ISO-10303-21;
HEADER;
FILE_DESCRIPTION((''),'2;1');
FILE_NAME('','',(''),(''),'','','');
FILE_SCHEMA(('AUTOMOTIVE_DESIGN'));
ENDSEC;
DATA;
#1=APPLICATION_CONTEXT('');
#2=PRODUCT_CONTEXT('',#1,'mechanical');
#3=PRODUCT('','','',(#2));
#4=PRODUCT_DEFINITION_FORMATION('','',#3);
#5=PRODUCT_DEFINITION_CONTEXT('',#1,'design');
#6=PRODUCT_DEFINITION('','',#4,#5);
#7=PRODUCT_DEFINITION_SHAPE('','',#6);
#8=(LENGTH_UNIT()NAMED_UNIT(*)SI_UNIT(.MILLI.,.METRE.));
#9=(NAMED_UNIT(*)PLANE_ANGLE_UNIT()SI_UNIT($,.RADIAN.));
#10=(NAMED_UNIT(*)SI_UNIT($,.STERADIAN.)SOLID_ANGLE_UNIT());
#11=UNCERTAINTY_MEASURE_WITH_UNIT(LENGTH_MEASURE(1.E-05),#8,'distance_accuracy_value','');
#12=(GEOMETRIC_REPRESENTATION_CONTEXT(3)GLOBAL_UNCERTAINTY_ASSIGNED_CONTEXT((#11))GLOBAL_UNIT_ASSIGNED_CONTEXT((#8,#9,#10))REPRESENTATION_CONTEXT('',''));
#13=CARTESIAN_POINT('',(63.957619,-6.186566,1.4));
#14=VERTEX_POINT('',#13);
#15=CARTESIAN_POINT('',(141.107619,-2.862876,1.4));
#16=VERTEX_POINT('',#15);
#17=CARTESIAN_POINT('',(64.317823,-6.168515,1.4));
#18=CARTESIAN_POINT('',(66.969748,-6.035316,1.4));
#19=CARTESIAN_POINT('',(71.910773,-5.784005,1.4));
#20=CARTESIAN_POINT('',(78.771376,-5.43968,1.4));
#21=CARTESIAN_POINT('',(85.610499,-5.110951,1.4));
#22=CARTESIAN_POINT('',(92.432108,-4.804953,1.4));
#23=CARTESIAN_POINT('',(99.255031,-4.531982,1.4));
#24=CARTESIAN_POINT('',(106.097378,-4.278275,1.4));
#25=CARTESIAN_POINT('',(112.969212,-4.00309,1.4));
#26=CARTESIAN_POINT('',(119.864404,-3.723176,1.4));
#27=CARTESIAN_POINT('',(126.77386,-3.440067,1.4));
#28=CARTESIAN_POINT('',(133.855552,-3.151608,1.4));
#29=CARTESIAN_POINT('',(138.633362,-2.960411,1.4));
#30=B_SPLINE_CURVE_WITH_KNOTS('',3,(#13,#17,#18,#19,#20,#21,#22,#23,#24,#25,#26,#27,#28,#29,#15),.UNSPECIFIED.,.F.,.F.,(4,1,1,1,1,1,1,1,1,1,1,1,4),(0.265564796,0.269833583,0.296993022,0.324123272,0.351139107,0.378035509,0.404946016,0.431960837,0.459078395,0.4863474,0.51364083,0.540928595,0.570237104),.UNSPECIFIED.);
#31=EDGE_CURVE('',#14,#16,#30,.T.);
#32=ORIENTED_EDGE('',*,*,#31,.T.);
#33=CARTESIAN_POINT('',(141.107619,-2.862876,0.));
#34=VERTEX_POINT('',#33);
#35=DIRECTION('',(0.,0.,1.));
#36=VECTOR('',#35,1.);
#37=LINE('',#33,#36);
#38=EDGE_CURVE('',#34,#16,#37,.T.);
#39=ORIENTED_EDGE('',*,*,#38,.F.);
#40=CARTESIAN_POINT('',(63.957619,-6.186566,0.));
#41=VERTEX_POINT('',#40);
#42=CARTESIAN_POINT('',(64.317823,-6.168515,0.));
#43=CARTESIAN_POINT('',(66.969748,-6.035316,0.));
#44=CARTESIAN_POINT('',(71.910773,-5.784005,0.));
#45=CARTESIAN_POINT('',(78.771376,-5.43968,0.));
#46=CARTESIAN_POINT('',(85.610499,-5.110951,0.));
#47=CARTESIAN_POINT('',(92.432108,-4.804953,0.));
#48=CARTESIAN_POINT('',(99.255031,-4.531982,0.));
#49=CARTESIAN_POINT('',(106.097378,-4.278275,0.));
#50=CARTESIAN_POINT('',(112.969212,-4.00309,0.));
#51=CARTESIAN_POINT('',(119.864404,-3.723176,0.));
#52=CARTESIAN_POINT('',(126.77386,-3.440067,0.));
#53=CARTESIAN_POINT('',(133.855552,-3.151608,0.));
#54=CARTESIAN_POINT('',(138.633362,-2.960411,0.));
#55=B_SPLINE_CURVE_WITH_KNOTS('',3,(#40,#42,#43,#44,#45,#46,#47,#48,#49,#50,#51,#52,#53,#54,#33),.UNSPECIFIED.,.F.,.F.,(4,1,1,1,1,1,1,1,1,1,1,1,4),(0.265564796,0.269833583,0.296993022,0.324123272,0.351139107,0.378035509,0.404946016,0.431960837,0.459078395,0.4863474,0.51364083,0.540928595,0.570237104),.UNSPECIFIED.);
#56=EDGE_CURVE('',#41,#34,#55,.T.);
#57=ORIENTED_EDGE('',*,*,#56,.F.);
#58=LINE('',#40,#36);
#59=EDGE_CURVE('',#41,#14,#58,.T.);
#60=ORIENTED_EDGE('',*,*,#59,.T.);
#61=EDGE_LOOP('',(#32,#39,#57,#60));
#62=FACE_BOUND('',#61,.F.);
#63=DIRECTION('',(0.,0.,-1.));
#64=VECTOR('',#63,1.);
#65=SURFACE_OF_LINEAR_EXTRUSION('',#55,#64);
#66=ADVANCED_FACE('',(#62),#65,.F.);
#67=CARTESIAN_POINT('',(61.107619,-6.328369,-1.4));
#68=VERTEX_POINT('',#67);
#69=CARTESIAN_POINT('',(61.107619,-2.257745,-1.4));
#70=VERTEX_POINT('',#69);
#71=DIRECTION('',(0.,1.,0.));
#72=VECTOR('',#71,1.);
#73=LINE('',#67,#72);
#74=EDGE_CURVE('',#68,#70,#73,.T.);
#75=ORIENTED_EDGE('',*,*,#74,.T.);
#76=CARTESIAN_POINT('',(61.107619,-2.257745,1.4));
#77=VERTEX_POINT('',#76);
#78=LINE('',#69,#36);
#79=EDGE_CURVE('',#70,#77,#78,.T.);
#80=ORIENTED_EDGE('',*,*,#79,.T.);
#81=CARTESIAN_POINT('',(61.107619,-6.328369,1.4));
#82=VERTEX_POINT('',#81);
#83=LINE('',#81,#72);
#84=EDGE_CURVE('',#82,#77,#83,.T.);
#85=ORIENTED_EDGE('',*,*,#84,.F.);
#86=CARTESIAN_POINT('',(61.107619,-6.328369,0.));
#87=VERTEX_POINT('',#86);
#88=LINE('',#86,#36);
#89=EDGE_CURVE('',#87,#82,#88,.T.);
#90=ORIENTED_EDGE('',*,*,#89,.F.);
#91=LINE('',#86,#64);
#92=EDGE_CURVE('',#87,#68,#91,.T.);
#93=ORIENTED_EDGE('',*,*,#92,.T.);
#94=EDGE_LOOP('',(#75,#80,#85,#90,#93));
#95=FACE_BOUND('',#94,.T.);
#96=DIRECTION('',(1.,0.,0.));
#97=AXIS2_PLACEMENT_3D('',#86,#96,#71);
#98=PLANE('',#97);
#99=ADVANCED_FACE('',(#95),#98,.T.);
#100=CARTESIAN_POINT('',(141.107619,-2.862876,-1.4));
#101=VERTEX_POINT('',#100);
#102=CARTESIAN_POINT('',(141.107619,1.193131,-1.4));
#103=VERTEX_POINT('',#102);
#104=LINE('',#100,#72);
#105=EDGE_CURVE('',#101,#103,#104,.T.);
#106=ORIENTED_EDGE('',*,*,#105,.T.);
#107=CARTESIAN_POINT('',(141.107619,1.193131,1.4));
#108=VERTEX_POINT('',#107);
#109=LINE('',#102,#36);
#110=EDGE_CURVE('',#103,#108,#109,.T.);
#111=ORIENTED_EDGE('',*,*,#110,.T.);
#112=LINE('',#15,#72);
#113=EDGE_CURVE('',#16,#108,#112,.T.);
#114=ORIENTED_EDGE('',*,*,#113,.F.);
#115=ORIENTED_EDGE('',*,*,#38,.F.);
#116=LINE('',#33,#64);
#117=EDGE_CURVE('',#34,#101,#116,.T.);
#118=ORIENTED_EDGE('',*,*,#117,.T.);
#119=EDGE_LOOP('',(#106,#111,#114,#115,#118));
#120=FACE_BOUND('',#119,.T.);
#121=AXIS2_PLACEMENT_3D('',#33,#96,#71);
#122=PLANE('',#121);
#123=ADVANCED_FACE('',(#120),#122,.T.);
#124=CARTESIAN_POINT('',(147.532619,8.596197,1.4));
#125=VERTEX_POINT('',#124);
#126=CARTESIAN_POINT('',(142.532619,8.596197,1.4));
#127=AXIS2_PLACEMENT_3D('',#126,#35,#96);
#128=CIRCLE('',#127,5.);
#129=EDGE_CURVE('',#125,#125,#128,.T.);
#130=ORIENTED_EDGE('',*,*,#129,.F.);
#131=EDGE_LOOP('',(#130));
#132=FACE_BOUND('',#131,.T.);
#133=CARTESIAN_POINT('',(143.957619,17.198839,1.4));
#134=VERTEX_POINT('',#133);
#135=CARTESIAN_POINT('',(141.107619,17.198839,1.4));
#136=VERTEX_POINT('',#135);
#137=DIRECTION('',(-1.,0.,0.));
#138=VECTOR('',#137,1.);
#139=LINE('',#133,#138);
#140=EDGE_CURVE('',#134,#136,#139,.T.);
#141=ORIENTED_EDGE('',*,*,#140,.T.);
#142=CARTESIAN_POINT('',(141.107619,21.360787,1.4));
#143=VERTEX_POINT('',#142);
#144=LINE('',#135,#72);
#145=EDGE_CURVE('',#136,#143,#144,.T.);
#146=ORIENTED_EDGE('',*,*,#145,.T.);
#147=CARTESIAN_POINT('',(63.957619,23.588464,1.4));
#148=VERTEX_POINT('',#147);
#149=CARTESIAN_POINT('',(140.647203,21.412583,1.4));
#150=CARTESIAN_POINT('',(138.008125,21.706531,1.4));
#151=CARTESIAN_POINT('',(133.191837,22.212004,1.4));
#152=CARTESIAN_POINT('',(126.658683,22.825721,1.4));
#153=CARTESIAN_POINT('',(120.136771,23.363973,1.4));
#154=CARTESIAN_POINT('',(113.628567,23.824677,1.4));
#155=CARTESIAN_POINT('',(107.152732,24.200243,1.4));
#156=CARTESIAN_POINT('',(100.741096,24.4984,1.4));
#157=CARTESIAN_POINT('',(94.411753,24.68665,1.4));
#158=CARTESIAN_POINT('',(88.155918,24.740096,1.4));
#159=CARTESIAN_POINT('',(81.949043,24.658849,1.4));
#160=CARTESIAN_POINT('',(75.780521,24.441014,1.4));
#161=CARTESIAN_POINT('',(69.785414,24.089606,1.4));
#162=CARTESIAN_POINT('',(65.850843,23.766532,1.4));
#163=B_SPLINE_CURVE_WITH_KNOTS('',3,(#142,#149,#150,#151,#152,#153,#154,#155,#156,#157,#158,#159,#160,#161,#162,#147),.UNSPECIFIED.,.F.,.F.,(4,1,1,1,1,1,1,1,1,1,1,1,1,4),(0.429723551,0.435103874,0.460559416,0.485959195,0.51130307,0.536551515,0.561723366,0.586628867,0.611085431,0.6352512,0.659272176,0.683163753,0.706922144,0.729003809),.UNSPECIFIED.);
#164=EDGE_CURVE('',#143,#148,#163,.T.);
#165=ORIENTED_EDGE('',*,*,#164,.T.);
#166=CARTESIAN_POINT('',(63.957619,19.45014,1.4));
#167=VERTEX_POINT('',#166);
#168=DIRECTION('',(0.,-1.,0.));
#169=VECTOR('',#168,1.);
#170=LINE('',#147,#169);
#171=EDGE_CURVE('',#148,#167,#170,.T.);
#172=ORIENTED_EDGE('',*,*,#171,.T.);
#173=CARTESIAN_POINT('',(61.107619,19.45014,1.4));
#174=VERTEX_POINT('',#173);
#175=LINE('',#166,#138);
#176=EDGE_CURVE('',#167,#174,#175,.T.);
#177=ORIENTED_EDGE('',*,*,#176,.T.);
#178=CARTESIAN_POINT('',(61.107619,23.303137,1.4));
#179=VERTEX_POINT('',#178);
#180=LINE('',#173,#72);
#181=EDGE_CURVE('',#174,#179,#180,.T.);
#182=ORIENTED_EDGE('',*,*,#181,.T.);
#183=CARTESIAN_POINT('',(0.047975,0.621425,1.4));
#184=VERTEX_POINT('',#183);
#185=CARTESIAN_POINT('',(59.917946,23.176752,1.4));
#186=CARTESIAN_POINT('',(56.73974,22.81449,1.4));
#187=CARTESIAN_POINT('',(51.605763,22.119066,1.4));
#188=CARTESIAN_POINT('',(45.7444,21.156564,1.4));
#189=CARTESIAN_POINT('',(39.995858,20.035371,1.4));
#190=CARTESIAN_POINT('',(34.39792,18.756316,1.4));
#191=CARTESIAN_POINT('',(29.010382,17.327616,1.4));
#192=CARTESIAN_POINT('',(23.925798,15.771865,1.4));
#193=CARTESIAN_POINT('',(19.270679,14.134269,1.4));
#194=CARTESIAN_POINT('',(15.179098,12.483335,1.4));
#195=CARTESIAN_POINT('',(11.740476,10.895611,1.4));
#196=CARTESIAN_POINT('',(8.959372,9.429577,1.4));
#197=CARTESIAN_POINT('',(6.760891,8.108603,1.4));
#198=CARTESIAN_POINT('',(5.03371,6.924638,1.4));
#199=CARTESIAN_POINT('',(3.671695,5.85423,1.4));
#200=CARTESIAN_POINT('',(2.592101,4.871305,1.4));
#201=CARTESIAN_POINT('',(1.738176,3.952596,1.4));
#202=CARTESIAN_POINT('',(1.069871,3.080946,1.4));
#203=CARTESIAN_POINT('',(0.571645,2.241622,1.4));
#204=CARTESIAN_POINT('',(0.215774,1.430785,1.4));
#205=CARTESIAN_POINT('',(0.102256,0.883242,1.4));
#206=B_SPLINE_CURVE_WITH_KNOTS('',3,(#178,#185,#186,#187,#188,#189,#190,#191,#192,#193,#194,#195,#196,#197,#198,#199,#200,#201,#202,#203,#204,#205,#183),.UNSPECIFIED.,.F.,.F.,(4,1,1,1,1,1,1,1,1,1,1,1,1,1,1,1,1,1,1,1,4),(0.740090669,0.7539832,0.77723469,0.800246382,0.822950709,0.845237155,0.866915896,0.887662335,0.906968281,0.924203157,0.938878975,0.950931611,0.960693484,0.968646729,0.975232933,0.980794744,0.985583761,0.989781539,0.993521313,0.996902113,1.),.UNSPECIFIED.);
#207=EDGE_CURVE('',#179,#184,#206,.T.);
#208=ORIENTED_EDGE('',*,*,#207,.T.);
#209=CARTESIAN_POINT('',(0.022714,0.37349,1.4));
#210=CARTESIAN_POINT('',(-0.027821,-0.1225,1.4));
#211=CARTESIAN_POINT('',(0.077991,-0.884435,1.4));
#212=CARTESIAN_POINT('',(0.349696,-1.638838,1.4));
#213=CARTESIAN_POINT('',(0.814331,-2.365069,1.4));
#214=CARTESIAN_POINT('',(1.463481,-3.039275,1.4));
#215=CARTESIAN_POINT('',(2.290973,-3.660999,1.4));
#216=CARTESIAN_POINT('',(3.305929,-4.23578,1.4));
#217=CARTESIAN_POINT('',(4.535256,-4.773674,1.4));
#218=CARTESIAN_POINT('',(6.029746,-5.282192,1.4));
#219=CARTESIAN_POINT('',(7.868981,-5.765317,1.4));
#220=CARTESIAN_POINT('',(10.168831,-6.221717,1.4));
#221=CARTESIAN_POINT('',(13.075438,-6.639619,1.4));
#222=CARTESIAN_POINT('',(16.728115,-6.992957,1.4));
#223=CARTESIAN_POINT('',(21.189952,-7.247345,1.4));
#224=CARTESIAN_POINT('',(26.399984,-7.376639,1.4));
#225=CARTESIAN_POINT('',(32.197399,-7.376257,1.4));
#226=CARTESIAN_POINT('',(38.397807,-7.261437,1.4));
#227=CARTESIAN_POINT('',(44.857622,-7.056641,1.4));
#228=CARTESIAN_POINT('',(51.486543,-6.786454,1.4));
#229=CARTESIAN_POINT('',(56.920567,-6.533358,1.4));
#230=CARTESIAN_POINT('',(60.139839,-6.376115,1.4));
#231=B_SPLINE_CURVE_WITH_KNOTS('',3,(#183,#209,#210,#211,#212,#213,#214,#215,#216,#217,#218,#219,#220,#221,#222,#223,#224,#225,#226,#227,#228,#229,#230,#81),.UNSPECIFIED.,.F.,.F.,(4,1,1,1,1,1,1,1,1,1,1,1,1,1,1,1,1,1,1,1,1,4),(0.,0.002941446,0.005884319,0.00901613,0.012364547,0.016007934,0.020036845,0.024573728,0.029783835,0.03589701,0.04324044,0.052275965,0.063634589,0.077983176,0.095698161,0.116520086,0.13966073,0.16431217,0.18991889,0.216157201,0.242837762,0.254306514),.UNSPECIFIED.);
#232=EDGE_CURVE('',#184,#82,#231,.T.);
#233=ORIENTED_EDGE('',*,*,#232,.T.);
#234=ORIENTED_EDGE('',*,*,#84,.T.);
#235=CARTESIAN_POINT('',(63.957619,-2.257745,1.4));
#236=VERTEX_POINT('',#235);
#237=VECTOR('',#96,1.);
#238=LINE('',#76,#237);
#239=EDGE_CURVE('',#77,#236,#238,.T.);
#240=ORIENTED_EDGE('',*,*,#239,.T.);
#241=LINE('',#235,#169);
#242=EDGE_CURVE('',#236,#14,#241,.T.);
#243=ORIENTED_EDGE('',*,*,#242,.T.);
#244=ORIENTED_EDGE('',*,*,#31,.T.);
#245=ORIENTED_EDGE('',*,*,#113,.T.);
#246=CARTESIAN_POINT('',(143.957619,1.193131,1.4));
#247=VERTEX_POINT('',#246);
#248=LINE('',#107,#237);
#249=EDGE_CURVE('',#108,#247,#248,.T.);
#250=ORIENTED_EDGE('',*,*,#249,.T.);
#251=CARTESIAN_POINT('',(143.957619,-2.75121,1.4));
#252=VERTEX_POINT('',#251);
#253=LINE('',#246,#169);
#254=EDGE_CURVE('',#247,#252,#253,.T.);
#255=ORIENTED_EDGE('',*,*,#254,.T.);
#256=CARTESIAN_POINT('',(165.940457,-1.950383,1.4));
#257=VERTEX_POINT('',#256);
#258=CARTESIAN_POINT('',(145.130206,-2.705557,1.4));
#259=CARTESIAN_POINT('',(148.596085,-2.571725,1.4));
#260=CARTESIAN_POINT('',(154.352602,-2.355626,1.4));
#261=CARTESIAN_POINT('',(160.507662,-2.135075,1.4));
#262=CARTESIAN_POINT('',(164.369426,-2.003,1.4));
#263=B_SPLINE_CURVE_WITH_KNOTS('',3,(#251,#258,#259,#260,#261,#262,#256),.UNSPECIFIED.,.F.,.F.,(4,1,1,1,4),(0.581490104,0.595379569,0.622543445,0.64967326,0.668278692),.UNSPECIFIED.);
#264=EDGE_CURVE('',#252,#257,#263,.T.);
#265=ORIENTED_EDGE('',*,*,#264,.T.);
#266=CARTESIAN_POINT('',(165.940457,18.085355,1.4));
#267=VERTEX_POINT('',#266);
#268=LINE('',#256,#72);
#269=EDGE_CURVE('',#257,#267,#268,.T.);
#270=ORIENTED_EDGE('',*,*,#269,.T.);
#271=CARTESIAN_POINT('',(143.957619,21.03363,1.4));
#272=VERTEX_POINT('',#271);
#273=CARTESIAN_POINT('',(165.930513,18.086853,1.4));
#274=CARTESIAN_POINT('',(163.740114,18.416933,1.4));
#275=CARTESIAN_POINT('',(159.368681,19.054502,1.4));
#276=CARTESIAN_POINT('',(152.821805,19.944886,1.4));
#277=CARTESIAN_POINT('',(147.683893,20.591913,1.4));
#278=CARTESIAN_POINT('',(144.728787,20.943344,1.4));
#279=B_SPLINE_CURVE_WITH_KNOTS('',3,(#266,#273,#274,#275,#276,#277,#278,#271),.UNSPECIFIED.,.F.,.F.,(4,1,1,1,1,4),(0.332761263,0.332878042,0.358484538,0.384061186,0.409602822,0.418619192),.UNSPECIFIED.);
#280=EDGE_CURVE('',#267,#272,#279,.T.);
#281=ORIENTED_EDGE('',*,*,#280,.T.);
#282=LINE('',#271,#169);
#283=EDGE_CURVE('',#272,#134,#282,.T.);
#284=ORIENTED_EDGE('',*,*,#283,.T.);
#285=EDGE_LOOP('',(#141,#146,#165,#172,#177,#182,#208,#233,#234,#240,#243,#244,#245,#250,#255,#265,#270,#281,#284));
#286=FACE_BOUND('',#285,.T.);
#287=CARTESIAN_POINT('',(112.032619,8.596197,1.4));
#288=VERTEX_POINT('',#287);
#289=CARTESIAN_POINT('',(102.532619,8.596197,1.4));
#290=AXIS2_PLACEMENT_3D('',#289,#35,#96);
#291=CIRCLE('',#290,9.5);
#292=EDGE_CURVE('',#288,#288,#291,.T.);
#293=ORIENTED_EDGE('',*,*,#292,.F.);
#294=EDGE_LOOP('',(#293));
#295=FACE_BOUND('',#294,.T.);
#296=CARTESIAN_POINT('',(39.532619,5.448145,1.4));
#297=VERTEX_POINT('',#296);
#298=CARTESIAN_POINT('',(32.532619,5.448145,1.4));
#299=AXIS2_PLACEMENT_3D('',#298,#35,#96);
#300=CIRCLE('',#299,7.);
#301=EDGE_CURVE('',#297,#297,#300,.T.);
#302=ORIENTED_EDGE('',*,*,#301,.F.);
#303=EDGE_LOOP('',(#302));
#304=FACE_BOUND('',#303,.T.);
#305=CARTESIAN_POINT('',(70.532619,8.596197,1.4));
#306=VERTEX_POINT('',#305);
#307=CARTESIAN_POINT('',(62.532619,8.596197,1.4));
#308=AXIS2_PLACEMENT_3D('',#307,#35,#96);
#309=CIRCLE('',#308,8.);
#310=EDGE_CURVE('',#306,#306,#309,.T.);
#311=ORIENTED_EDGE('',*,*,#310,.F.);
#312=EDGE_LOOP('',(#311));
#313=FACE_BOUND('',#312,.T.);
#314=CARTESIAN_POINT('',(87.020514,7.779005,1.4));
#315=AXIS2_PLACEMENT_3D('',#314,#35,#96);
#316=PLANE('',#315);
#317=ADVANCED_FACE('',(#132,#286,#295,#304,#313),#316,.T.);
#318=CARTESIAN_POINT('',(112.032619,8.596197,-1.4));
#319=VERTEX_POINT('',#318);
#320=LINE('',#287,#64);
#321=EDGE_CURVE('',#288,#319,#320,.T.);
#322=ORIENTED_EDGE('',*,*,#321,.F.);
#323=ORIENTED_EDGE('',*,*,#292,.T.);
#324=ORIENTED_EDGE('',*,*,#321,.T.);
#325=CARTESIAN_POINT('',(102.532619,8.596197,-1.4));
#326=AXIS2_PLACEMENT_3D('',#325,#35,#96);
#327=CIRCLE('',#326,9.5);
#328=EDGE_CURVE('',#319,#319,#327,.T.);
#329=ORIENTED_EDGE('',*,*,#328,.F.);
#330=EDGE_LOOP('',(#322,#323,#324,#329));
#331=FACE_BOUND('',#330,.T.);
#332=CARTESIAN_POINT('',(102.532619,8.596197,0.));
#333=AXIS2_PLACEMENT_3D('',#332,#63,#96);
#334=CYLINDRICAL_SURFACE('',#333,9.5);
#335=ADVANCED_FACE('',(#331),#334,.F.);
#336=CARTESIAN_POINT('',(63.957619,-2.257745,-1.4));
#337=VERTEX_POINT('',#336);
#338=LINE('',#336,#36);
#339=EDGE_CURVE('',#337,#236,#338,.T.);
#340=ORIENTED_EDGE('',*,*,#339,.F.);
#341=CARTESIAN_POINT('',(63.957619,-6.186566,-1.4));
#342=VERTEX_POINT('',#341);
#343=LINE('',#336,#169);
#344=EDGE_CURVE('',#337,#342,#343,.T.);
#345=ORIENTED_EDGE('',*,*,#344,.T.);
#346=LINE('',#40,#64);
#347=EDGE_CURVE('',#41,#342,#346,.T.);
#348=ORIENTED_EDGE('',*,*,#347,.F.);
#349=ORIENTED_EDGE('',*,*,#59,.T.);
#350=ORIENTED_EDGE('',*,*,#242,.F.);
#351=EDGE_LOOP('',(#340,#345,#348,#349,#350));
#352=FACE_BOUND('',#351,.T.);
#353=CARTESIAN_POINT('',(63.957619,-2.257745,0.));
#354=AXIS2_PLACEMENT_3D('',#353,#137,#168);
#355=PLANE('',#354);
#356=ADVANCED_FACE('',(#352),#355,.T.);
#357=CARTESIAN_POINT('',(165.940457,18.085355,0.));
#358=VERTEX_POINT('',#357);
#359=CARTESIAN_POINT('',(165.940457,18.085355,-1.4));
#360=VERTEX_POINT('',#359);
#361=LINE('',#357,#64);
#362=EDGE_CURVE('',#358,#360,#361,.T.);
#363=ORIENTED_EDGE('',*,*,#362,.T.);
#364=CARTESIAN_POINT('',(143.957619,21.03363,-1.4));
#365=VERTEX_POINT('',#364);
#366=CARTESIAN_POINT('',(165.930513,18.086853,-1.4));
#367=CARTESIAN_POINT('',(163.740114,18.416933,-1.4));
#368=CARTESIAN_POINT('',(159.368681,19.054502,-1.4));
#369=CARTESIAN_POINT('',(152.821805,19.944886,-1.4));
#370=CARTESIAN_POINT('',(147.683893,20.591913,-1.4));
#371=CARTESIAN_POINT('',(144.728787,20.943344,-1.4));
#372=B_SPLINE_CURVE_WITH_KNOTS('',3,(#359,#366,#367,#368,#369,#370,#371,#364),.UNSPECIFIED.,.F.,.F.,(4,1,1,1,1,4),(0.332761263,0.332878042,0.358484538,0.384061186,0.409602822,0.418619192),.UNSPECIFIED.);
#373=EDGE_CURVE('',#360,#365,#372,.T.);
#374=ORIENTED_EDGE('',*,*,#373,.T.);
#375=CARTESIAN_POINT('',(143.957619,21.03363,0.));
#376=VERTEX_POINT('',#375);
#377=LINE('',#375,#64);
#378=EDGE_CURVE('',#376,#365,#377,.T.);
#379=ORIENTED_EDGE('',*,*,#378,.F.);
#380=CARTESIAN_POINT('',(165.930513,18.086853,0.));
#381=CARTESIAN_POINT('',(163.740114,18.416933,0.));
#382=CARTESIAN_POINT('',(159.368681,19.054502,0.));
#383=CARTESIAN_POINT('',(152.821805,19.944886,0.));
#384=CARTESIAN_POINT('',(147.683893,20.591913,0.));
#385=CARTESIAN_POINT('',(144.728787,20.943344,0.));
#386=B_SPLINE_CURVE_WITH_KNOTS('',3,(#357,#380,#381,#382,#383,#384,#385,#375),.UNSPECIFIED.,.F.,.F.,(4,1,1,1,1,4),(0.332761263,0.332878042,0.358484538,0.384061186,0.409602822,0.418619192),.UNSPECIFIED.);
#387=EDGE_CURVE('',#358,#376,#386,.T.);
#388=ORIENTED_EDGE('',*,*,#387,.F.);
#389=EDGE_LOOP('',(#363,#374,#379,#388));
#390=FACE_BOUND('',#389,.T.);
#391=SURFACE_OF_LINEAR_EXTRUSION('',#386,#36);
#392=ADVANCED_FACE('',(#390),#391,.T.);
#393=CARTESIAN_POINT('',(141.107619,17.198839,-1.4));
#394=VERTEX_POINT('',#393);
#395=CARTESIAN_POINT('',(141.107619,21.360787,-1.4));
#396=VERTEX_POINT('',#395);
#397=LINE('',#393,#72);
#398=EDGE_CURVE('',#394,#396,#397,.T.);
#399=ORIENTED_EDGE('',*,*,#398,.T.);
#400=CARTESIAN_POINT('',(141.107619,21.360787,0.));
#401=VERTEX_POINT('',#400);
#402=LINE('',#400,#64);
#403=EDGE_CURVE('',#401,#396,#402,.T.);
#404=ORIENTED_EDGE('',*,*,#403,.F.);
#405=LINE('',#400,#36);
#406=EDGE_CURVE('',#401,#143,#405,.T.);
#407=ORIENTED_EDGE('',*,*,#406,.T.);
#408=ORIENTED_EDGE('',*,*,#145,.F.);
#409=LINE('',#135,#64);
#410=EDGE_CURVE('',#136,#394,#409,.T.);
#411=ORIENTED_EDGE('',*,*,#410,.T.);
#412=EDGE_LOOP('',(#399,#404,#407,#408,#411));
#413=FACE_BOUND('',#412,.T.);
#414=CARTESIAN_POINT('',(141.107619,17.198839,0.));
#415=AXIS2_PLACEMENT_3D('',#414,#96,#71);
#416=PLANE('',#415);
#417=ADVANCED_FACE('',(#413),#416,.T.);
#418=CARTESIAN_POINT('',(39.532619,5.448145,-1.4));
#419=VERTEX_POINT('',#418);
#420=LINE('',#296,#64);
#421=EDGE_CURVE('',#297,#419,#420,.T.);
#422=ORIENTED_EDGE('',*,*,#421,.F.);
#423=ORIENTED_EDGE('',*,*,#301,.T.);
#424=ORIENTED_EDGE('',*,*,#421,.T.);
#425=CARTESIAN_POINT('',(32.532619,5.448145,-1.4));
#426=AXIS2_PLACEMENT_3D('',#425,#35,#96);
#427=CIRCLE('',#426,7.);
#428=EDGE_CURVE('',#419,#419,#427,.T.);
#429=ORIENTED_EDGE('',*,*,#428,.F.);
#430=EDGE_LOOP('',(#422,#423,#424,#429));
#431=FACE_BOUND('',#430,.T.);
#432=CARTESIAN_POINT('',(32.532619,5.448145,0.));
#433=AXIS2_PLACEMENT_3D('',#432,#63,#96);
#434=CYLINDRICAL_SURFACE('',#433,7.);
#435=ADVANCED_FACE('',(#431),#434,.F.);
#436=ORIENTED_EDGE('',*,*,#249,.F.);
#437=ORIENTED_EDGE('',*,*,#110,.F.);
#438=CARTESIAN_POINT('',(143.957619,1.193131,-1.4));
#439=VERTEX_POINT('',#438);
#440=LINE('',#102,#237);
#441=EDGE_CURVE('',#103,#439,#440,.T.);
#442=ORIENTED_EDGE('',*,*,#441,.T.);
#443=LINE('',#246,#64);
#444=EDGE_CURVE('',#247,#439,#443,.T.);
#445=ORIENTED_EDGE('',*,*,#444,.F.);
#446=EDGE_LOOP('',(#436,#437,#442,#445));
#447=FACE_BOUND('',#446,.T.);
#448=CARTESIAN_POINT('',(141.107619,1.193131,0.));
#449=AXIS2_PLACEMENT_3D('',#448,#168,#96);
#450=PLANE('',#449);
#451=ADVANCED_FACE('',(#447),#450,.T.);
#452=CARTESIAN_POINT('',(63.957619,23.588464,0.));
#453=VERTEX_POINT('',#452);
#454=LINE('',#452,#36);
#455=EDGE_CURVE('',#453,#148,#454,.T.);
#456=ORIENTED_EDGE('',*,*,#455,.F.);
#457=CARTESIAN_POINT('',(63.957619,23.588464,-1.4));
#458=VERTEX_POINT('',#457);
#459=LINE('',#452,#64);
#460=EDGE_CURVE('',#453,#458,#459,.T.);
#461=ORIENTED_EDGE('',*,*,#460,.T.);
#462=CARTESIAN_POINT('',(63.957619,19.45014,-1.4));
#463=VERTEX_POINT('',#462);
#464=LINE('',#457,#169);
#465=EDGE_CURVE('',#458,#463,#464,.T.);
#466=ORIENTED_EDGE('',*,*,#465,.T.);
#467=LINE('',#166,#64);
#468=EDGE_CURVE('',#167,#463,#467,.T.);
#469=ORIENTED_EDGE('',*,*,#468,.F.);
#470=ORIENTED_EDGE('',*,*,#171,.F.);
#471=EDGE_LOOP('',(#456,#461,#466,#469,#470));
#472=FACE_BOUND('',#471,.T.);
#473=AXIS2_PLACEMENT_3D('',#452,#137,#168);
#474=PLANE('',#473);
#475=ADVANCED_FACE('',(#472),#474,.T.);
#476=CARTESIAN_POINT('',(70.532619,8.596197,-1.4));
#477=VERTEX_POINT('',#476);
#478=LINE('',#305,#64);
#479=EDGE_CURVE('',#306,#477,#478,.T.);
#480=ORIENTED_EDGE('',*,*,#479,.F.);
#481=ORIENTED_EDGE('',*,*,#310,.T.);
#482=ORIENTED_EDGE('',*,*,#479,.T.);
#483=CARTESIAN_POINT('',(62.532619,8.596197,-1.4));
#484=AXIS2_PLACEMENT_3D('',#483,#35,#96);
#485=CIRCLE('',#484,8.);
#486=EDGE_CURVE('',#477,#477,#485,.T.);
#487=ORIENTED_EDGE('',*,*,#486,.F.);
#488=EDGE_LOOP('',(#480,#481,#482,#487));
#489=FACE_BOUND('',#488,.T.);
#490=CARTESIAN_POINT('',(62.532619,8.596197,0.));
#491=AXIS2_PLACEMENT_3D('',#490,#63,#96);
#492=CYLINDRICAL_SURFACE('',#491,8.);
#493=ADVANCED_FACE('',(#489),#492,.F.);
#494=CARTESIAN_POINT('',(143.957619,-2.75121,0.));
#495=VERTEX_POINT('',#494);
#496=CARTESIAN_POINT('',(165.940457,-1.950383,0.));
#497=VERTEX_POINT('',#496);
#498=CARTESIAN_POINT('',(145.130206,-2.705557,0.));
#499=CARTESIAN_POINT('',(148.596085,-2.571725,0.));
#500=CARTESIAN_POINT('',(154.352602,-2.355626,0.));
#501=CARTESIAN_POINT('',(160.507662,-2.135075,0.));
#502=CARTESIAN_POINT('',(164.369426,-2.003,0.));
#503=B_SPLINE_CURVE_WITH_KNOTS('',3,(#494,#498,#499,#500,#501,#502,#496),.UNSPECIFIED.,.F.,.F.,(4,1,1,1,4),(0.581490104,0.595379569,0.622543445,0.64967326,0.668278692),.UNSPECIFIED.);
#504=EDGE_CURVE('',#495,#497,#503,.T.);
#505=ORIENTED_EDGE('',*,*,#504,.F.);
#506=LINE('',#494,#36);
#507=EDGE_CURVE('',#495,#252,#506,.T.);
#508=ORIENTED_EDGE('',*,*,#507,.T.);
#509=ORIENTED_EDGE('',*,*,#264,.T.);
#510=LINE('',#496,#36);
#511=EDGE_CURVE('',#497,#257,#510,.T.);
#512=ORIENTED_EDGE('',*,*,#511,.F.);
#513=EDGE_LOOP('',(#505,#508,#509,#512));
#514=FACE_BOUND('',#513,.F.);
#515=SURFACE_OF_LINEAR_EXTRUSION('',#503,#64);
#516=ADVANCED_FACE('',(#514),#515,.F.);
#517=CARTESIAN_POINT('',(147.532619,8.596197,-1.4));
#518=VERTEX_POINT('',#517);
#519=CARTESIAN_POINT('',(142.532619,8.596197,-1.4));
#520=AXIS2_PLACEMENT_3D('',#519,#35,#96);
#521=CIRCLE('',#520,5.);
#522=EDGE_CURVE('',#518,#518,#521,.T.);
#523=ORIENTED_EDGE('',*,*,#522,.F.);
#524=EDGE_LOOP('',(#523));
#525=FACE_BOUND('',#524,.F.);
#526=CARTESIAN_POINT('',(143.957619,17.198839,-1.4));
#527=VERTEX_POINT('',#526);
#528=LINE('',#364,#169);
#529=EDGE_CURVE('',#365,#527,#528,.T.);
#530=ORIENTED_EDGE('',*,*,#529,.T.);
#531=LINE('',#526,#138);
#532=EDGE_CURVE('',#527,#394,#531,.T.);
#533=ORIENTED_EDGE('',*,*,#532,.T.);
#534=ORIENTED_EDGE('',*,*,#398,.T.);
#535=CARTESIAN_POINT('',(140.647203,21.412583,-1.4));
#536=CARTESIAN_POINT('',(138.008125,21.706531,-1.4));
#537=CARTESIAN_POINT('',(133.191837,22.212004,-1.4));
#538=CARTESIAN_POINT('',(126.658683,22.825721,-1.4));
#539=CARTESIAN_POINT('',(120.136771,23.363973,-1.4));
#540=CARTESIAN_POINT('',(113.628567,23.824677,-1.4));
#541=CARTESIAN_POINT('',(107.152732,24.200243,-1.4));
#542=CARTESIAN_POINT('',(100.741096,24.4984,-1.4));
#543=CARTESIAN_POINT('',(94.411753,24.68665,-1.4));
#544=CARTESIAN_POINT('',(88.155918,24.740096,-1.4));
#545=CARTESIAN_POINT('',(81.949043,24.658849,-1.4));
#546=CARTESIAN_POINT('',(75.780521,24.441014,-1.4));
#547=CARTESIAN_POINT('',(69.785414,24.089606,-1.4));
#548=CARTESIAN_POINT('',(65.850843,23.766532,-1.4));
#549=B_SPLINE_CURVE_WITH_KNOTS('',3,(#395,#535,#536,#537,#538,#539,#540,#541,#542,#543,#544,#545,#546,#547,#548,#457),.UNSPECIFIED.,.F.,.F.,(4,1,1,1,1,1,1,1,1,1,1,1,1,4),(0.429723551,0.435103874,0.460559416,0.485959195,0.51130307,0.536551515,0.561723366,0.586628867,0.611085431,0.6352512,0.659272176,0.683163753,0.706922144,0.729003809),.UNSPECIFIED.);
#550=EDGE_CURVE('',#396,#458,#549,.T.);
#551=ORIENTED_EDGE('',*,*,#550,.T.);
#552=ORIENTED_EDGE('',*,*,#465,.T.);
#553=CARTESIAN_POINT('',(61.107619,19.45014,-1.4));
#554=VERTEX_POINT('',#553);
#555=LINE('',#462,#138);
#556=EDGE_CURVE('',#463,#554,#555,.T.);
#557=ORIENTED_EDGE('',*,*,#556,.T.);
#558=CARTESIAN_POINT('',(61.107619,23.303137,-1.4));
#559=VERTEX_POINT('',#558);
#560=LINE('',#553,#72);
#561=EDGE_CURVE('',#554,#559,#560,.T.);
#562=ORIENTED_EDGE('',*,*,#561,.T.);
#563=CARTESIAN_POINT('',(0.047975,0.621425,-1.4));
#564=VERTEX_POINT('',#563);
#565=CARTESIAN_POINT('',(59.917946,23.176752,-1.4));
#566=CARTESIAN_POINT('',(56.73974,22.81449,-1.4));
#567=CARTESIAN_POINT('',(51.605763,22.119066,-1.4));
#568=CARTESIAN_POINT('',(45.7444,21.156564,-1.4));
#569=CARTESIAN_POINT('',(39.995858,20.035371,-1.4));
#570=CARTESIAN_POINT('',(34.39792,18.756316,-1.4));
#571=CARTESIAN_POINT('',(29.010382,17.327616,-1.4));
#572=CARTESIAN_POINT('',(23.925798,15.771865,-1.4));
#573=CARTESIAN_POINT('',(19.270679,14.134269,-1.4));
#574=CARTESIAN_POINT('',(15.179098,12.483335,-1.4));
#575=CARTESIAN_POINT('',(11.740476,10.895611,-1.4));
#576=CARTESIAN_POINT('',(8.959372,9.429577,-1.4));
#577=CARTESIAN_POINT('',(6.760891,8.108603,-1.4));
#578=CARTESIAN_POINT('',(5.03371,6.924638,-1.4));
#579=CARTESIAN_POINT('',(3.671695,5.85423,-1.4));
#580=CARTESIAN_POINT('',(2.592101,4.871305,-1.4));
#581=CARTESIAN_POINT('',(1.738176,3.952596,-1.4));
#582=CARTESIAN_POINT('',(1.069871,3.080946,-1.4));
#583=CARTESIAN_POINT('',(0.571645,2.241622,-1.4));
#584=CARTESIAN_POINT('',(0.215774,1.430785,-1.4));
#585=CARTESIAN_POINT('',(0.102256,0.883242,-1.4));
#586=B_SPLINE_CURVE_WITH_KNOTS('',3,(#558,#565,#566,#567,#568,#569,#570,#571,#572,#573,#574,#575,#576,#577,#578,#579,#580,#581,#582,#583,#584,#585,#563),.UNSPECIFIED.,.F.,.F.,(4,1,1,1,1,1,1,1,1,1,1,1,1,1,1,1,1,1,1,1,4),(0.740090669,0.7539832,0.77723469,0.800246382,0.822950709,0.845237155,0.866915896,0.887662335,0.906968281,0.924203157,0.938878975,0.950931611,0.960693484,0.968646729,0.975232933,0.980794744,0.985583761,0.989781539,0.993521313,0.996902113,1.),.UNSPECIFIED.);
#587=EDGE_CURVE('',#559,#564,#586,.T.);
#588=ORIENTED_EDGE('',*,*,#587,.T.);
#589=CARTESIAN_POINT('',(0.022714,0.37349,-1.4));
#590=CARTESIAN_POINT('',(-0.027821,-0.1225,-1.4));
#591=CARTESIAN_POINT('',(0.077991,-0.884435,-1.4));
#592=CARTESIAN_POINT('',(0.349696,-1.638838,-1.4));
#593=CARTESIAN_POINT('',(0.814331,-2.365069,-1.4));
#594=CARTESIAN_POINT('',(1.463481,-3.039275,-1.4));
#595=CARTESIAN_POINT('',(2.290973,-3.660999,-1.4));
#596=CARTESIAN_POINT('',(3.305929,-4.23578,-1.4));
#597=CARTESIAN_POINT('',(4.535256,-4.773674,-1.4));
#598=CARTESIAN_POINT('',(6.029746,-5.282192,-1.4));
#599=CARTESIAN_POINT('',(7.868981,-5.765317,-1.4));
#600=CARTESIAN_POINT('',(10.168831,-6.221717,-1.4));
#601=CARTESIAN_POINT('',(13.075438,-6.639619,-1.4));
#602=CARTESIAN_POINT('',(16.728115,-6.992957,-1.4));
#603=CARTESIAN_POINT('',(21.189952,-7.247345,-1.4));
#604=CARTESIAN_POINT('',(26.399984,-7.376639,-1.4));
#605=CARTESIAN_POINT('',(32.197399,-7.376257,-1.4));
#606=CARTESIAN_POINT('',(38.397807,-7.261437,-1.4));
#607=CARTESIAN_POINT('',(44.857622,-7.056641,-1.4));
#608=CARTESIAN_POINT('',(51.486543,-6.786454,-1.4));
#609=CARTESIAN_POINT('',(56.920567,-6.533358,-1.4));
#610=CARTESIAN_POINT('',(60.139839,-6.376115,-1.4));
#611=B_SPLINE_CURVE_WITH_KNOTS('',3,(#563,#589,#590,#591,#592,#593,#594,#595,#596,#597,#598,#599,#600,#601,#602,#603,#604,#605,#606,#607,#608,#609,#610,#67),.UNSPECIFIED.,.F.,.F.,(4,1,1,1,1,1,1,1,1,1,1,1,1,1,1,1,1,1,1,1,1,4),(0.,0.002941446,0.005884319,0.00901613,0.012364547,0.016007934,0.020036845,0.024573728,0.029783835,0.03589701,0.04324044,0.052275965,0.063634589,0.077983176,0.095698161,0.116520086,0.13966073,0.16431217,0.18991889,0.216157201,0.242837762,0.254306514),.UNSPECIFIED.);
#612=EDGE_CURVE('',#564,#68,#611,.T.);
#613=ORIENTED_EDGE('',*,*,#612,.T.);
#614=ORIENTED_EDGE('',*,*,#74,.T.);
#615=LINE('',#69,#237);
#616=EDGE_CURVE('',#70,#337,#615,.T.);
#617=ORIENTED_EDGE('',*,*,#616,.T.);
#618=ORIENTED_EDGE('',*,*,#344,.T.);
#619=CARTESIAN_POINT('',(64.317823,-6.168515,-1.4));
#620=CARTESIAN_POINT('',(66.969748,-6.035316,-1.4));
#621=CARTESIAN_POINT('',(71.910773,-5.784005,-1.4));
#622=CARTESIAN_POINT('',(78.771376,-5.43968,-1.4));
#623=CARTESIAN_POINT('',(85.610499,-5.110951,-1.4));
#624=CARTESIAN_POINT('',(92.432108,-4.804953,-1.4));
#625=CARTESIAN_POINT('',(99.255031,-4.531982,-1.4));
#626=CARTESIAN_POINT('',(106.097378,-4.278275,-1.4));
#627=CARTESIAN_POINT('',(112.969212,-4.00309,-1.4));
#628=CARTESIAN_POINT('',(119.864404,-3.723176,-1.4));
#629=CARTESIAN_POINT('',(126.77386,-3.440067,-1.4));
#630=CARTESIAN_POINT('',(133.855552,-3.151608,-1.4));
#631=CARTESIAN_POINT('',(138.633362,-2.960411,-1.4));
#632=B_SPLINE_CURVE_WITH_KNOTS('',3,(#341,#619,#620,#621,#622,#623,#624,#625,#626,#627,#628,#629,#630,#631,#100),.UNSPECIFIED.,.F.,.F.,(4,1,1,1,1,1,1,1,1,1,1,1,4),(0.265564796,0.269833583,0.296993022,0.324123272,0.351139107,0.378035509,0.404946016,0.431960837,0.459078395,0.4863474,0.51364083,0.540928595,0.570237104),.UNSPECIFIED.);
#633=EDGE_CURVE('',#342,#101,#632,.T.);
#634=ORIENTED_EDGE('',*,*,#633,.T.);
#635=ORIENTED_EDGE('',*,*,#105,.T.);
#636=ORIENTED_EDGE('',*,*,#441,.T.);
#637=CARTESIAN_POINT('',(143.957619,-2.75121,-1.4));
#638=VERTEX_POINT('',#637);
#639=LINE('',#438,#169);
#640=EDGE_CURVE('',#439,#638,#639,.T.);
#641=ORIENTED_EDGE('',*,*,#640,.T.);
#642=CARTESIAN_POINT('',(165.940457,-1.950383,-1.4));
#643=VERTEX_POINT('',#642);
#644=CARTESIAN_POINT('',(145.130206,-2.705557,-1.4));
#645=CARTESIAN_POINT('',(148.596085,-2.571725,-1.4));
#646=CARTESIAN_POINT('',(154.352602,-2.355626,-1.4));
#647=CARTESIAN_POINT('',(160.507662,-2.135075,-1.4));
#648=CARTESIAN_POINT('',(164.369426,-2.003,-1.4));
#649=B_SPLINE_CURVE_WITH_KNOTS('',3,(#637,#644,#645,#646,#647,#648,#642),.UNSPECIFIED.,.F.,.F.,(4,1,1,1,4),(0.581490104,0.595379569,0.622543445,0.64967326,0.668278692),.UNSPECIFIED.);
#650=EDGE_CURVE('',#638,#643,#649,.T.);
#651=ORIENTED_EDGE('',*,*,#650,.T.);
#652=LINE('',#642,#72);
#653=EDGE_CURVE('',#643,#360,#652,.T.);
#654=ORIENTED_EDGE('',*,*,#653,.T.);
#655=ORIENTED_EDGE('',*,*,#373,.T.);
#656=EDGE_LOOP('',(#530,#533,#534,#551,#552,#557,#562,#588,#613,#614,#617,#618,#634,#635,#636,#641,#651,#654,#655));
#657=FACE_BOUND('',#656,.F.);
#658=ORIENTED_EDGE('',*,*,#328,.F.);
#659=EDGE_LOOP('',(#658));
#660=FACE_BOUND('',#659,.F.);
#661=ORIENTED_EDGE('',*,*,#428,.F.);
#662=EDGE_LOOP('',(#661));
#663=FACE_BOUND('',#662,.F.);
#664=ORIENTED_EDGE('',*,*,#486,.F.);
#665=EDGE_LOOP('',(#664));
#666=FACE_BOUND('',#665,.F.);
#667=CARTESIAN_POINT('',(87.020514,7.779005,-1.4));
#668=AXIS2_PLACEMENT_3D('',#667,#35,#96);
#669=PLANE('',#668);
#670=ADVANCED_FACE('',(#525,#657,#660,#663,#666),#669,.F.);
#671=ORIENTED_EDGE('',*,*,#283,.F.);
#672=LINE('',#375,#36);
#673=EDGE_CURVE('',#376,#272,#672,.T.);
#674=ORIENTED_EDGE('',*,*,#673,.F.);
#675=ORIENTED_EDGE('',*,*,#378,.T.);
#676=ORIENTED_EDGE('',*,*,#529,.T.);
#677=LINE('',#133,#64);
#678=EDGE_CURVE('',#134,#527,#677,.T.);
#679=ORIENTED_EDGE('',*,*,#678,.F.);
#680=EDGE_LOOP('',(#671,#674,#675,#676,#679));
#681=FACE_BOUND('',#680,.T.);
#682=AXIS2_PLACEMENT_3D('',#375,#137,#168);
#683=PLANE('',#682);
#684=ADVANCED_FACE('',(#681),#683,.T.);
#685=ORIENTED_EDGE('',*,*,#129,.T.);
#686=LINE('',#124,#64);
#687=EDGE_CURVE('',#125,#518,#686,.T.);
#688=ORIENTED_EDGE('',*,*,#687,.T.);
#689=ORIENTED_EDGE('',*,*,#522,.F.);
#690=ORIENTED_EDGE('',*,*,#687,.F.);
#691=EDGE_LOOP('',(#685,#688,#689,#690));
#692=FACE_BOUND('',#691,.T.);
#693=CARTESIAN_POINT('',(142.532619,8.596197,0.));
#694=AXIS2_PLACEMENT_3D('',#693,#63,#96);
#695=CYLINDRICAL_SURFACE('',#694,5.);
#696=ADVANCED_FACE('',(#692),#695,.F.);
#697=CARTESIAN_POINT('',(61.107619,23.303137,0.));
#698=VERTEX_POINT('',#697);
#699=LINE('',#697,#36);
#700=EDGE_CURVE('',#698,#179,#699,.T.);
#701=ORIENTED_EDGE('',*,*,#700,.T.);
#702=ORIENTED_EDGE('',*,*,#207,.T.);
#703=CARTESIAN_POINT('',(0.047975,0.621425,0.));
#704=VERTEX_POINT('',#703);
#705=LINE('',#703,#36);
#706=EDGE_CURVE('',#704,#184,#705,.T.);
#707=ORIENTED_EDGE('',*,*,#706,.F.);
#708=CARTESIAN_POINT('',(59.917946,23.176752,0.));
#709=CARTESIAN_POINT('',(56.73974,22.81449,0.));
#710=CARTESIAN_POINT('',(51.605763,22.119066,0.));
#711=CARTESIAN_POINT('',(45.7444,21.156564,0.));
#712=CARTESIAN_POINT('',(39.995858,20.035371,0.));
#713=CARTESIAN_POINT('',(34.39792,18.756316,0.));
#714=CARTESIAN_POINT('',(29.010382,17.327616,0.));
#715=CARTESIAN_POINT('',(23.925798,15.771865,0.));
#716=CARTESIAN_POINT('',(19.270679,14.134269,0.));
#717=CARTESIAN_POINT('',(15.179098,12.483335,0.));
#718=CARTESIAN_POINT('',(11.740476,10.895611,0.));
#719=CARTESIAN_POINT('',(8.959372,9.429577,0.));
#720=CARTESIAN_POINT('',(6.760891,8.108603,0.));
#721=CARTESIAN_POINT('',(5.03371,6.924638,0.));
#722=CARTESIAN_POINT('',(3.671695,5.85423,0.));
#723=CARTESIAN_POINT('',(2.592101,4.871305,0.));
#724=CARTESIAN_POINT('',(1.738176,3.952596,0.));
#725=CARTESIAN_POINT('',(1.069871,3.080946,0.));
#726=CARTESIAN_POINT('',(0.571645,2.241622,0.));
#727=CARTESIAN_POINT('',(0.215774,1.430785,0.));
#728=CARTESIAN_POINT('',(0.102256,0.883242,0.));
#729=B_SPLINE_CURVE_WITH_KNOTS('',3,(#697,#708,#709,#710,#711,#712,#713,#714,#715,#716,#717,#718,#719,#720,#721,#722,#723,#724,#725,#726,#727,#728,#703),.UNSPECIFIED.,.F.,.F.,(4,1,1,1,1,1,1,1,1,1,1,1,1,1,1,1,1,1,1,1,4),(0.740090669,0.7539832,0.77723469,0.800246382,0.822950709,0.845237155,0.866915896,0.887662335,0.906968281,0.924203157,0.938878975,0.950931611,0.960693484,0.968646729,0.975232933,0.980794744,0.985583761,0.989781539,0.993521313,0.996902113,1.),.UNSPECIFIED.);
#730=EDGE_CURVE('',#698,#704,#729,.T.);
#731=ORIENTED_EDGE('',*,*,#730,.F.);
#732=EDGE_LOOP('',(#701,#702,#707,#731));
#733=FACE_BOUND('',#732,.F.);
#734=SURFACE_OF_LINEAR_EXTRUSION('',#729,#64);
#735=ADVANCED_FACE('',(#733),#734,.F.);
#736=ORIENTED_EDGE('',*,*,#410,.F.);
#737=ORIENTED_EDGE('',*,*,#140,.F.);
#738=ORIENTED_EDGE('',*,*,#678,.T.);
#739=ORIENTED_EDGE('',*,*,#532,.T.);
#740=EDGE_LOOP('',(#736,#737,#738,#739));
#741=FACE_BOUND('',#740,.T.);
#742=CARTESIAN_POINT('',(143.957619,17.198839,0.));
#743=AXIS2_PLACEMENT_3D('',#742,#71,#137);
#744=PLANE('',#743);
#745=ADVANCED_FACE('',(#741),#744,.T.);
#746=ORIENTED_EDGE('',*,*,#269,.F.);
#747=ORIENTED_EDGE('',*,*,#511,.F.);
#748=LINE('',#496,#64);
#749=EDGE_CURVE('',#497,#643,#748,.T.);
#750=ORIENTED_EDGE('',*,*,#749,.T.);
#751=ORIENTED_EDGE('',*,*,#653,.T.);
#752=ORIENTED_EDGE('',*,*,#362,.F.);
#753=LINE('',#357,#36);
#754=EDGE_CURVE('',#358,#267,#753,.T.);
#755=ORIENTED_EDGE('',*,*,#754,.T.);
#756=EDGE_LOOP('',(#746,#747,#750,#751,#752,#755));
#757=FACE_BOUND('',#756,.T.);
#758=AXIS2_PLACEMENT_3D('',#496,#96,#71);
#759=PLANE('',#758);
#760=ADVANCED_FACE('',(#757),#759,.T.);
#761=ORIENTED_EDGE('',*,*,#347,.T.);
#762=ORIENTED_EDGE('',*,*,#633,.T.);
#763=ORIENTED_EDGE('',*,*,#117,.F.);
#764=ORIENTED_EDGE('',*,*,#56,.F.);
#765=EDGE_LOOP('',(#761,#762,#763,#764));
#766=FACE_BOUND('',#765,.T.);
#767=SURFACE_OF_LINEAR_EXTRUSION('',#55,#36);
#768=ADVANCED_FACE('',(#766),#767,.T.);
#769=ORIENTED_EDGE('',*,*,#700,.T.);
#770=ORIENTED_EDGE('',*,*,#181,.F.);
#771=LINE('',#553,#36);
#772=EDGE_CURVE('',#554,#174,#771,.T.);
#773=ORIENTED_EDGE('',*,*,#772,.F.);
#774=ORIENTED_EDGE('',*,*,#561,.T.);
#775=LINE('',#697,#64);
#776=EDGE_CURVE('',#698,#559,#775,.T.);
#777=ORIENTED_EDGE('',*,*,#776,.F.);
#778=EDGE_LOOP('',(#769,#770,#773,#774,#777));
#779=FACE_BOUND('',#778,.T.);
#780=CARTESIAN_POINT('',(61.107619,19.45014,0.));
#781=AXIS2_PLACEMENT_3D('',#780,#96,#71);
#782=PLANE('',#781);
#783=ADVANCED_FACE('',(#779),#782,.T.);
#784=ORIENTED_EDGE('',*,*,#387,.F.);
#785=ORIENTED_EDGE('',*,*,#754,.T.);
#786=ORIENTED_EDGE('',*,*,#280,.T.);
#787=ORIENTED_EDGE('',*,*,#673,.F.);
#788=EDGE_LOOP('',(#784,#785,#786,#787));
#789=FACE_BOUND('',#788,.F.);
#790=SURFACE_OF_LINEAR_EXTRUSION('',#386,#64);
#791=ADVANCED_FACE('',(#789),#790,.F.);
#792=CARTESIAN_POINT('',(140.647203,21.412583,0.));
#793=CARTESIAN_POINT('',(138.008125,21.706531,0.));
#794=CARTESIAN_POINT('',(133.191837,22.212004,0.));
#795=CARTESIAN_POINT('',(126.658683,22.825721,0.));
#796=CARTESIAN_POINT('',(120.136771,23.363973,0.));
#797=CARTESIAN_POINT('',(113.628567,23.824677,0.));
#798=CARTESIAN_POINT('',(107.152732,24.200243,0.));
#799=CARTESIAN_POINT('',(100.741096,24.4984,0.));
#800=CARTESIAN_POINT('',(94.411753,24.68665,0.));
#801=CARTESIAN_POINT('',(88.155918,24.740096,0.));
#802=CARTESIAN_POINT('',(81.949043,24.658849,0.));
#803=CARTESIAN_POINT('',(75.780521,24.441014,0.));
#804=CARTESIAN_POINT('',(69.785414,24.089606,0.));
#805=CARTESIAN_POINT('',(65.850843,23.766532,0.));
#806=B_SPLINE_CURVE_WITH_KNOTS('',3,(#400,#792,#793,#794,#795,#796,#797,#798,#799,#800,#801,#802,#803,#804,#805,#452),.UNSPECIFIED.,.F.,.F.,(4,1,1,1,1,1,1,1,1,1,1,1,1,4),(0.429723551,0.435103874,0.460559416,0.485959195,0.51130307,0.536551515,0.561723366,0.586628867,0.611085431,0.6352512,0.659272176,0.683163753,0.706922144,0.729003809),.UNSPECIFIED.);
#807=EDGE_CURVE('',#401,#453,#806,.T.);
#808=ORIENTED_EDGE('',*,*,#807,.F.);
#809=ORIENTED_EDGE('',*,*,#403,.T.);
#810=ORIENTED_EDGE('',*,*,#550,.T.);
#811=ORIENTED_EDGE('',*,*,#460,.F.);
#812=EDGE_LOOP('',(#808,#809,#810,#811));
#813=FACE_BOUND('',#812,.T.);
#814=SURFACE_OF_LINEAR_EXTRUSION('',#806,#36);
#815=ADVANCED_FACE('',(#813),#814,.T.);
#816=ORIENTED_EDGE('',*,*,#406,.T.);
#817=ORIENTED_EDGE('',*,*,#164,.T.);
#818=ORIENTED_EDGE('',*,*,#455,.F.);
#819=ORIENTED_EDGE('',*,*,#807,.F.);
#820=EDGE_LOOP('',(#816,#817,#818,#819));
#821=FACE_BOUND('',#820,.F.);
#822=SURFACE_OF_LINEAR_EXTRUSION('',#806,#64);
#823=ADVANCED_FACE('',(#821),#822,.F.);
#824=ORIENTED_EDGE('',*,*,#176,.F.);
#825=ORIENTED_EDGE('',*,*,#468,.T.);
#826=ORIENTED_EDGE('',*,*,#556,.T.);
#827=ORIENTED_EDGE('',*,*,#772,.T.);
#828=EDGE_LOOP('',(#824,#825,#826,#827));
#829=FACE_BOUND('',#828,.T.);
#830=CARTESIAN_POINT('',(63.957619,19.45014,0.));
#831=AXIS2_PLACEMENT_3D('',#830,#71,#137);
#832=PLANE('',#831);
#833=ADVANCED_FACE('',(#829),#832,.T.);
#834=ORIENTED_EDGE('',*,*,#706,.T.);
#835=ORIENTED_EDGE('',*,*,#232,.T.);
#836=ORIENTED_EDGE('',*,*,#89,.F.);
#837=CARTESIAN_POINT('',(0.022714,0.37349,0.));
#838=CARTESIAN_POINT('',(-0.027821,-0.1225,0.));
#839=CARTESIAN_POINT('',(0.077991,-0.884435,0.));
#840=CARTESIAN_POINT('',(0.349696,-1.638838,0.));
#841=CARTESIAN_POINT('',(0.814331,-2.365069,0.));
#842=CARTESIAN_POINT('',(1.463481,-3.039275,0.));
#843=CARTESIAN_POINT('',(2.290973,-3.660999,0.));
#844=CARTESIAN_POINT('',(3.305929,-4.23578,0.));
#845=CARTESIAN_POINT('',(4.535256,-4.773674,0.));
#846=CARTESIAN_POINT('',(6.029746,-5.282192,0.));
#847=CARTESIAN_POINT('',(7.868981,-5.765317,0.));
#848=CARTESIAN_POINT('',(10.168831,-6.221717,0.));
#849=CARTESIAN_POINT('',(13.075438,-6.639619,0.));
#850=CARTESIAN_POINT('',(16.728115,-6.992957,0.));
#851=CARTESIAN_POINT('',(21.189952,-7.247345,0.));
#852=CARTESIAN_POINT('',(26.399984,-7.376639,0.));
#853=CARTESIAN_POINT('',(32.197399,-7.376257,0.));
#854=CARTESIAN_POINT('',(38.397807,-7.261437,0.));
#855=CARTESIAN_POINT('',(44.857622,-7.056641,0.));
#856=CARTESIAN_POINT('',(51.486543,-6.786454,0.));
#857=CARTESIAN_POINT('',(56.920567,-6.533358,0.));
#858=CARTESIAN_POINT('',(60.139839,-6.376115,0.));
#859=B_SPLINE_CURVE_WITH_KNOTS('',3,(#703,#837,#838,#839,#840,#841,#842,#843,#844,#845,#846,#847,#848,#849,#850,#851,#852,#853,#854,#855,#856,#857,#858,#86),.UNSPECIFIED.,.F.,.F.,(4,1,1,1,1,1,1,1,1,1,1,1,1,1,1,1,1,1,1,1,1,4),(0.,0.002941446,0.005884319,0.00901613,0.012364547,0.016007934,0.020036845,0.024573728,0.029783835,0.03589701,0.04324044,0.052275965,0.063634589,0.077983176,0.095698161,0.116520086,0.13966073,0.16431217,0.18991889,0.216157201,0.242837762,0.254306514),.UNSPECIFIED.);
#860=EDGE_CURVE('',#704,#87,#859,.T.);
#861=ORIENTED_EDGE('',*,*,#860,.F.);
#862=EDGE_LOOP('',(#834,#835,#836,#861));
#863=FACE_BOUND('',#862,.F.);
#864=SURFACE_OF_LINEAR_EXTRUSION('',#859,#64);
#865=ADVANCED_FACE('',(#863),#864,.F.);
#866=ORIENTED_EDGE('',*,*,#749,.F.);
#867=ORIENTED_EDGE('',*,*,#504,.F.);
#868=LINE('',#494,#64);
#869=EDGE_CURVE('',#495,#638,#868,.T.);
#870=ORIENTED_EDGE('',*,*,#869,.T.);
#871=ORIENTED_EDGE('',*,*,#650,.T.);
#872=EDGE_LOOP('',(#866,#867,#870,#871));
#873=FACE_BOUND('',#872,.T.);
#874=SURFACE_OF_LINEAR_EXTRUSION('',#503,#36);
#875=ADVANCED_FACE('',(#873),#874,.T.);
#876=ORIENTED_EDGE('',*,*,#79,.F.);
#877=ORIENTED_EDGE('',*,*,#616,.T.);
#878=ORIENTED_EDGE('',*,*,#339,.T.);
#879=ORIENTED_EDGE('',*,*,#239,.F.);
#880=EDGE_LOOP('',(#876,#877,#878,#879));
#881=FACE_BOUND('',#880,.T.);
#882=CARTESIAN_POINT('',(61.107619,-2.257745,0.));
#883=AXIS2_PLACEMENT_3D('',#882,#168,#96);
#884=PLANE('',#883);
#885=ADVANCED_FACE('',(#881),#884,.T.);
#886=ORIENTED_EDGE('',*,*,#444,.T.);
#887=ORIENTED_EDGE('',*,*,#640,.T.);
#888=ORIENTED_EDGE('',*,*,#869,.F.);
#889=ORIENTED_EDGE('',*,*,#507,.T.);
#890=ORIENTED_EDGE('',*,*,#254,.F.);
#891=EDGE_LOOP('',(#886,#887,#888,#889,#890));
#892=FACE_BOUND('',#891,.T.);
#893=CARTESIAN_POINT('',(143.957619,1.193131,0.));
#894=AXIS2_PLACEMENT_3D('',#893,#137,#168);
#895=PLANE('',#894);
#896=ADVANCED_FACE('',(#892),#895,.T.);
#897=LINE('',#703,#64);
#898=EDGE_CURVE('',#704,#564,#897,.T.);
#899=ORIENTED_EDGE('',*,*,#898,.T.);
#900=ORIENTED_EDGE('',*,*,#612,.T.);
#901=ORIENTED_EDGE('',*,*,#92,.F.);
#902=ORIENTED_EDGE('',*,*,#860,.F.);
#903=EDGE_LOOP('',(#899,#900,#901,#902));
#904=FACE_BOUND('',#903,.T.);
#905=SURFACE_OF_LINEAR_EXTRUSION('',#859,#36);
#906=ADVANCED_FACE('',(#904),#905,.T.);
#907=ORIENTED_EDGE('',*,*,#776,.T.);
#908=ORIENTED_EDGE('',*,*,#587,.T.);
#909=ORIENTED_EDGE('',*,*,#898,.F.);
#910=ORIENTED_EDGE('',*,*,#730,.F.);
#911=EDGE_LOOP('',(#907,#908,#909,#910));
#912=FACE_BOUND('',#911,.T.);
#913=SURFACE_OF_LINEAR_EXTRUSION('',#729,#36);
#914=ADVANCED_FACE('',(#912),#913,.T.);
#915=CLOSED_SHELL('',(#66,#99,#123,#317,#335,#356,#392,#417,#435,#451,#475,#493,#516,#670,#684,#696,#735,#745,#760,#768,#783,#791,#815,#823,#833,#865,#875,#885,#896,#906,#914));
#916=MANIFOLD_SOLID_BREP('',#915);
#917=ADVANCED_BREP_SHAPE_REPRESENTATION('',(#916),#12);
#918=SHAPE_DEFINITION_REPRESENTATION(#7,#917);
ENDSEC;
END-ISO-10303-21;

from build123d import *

# Parameters (mm, degrees)
SKETCH_1_R      = 7
SKETCH_1_R_2    = 8
SKETCH_1_R_3    = 9.5
SKETCH_1_R_4    = 5
EXTRUDE_1_DEPTH = 1.4


with BuildPart() as part:
    # Эскиз1 → Бобышка-Вытянуть1 (new, symmetric)
    with BuildSketch(Plane.XY):
        with BuildLine():
            Line((63.957619318, 19.450139662), (61.107619318, 19.450139662))
            Line((61.107619318, 19.450139662), (61.107619318, 23.303137173))
            add(Edge.make_bspline(
                [(61.107619318, 23.303137173), (59.917945614, 23.176751945), (56.739740439, 22.81448979), (51.605762688, 22.119065522), (45.744400311, 21.156564432), (39.995857594, 20.03537139), (34.397919842, 18.756316235), (29.010382103, 17.327615608), (23.925798408, 15.771864922), (19.27067884, 14.134269435), (15.179098391, 12.483335438), (11.74047579, 10.895610996), (8.959371869, 9.429577366), (6.76089118, 8.1086032), (5.033709748, 6.924638056), (3.671694933, 5.854229665), (2.592101123, 4.871305369), (1.738175668, 3.952595744), (1.06987083, 3.080946374), (0.57164541, 2.241622103), (0.215773899, 1.430785398), (0.102255581, 0.883241695), (0.047975, 0.621425001)],
                knots=[0.740090669, 0.740090669, 0.740090669, 0.740090669, 0.7539832, 0.77723469, 0.800246382, 0.822950709, 0.845237155, 0.866915896, 0.887662335, 0.906968281, 0.924203157, 0.938878975, 0.950931611, 0.960693484, 0.968646729, 0.975232933, 0.980794744, 0.985583761, 0.989781539, 0.993521313, 0.996902113, 1, 1, 1, 1], degree=3))
            add(Edge.make_bspline(
                [(0.047975, 0.621425001), (0.02271382, 0.373490086), (-0.027820789, -0.122499974), (0.077991212, -0.884434589), (0.34969565, -1.63883807), (0.814331135, -2.365068923), (1.46348078, -3.039275244), (2.290973016, -3.660999469), (3.30592875, -4.23577962), (4.535255619, -4.773674143), (6.029745688, -5.282192164), (7.868981215, -5.765316676), (10.168831391, -6.221716592), (13.075438188, -6.63961873), (16.728115362, -6.992956737), (21.189952096, -7.247345144), (26.399984415, -7.376638848), (32.197398564, -7.376256913), (38.397806759, -7.261436579), (44.857621768, -7.056641358), (51.486543096, -6.786453532), (56.920566709, -6.533358441), (60.139839208, -6.376114839), (61.107619318, -6.32836923)],
                knots=[0, 0, 0, 0, 0.002941446, 0.005884319, 0.00901613, 0.012364547, 0.016007934, 0.020036845, 0.024573728, 0.029783835, 0.03589701, 0.04324044, 0.052275965, 0.063634589, 0.077983176, 0.095698161, 0.116520086, 0.13966073, 0.16431217, 0.18991889, 0.216157201, 0.242837762, 0.254306514, 0.254306514, 0.254306514, 0.254306514], degree=3))
            Line((61.107619318, -6.32836923), (61.107619318, -2.257745247))
            Line((61.107619318, -2.257745247), (63.957619318, -2.257745247))
            Line((63.957619318, -2.257745247), (63.957619318, -6.186566126))
            add(Edge.make_bspline(
                [(63.957619318, -6.186566126), (64.317823095, -6.168514758), (66.969747676, -6.035316313), (71.910772709, -5.784005174), (78.771375576, -5.439680449), (85.610498609, -5.110951246), (92.432107589, -4.804953317), (99.25503119, -4.531981644), (106.097378404, -4.278274658), (112.96921168, -4.00308991), (119.864404254, -3.723176166), (126.773860473, -3.440067276), (133.855552455, -3.151608468), (138.633361552, -2.960411351), (141.107619318, -2.86287629)],
                knots=[0.265564796, 0.265564796, 0.265564796, 0.265564796, 0.269833583, 0.296993022, 0.324123272, 0.351139107, 0.378035509, 0.404946016, 0.431960837, 0.459078395, 0.4863474, 0.51364083, 0.540928595, 0.570237104, 0.570237104, 0.570237104, 0.570237104], degree=3))
            Line((141.107619318, -2.86287629), (141.107619318, 1.193130543))
            Line((141.107619318, 1.193130543), (143.957619318, 1.193130543))
            Line((143.957619318, 1.193130543), (143.957619318, -2.751209627))
            add(Edge.make_bspline(
                [(143.957619318, -2.751209627), (145.13020609, -2.705557458), (148.596084852, -2.571725453), (154.352602411, -2.355626415), (160.507662095, -2.135075484), (164.369425992, -2.00299999), (165.940456932, -1.950382964)],
                knots=[0.581490104, 0.581490104, 0.581490104, 0.581490104, 0.595379569, 0.622543445, 0.64967326, 0.668278692, 0.668278692, 0.668278692, 0.668278692], degree=3))
            Line((165.940456932, -1.950382964), (165.940456932, 7.49391084))
            Line((165.940456932, 7.49391084), (165.940456932, 18.08535451))
            add(Edge.make_bspline(
                [(165.940456932, 18.08535451), (165.930512987, 18.08685322), (163.740114226, 18.416932974), (159.368680729, 19.054501815), (152.821805128, 19.944885603), (147.683892721, 20.591912914), (144.728786809, 20.943344409), (143.957619318, 21.033629847)],
                knots=[0.332761263, 0.332761263, 0.332761263, 0.332761263, 0.332878042, 0.358484538, 0.384061186, 0.409602822, 0.418619192, 0.418619192, 0.418619192, 0.418619192], degree=3))
            Line((143.957619318, 21.033629847), (143.957619318, 17.19883932))
            Line((143.957619318, 17.19883932), (141.107619318, 17.19883932))
            Line((141.107619318, 17.19883932), (141.107619318, 21.360787161))
            add(Edge.make_bspline(
                [(141.107619318, 21.360787161), (140.647203073, 21.412583326), (138.008124909, 21.706530989), (133.19183673, 22.212004255), (126.658683026, 22.825721434), (120.136770918, 23.363973271), (113.62856714, 23.824677329), (107.152732037, 24.200242598), (100.741095693, 24.498399513), (94.411752715, 24.686649771), (88.155917993, 24.740095652), (81.949043055, 24.658849145), (75.780520591, 24.441013809), (69.785413798, 24.089605746), (65.850842722, 23.766532071), (63.957619318, 23.588464287)],
                knots=[0.429723551, 0.429723551, 0.429723551, 0.429723551, 0.435103874, 0.460559416, 0.485959195, 0.51130307, 0.536551515, 0.561723366, 0.586628867, 0.611085431, 0.6352512, 0.659272176, 0.683163753, 0.706922144, 0.729003809, 0.729003809, 0.729003809, 0.729003809], degree=3))
            Line((63.957619318, 23.588464287), (63.957619318, 19.450139662))
        make_face()
        with Locations((32.532619318, 5.448144701)):
            Circle(SKETCH_1_R, mode=Mode.SUBTRACT)
        with Locations((62.532619318, 8.596197208)):
            Circle(SKETCH_1_R_2, mode=Mode.SUBTRACT)
        with Locations((102.532619318, 8.596197208)):
            Circle(SKETCH_1_R_3, mode=Mode.SUBTRACT)
        with Locations((142.532619318, 8.596197208)):
            Circle(SKETCH_1_R_4, mode=Mode.SUBTRACT)
    extrude(amount=EXTRUDE_1_DEPTH, both=True)


solid = part.part
